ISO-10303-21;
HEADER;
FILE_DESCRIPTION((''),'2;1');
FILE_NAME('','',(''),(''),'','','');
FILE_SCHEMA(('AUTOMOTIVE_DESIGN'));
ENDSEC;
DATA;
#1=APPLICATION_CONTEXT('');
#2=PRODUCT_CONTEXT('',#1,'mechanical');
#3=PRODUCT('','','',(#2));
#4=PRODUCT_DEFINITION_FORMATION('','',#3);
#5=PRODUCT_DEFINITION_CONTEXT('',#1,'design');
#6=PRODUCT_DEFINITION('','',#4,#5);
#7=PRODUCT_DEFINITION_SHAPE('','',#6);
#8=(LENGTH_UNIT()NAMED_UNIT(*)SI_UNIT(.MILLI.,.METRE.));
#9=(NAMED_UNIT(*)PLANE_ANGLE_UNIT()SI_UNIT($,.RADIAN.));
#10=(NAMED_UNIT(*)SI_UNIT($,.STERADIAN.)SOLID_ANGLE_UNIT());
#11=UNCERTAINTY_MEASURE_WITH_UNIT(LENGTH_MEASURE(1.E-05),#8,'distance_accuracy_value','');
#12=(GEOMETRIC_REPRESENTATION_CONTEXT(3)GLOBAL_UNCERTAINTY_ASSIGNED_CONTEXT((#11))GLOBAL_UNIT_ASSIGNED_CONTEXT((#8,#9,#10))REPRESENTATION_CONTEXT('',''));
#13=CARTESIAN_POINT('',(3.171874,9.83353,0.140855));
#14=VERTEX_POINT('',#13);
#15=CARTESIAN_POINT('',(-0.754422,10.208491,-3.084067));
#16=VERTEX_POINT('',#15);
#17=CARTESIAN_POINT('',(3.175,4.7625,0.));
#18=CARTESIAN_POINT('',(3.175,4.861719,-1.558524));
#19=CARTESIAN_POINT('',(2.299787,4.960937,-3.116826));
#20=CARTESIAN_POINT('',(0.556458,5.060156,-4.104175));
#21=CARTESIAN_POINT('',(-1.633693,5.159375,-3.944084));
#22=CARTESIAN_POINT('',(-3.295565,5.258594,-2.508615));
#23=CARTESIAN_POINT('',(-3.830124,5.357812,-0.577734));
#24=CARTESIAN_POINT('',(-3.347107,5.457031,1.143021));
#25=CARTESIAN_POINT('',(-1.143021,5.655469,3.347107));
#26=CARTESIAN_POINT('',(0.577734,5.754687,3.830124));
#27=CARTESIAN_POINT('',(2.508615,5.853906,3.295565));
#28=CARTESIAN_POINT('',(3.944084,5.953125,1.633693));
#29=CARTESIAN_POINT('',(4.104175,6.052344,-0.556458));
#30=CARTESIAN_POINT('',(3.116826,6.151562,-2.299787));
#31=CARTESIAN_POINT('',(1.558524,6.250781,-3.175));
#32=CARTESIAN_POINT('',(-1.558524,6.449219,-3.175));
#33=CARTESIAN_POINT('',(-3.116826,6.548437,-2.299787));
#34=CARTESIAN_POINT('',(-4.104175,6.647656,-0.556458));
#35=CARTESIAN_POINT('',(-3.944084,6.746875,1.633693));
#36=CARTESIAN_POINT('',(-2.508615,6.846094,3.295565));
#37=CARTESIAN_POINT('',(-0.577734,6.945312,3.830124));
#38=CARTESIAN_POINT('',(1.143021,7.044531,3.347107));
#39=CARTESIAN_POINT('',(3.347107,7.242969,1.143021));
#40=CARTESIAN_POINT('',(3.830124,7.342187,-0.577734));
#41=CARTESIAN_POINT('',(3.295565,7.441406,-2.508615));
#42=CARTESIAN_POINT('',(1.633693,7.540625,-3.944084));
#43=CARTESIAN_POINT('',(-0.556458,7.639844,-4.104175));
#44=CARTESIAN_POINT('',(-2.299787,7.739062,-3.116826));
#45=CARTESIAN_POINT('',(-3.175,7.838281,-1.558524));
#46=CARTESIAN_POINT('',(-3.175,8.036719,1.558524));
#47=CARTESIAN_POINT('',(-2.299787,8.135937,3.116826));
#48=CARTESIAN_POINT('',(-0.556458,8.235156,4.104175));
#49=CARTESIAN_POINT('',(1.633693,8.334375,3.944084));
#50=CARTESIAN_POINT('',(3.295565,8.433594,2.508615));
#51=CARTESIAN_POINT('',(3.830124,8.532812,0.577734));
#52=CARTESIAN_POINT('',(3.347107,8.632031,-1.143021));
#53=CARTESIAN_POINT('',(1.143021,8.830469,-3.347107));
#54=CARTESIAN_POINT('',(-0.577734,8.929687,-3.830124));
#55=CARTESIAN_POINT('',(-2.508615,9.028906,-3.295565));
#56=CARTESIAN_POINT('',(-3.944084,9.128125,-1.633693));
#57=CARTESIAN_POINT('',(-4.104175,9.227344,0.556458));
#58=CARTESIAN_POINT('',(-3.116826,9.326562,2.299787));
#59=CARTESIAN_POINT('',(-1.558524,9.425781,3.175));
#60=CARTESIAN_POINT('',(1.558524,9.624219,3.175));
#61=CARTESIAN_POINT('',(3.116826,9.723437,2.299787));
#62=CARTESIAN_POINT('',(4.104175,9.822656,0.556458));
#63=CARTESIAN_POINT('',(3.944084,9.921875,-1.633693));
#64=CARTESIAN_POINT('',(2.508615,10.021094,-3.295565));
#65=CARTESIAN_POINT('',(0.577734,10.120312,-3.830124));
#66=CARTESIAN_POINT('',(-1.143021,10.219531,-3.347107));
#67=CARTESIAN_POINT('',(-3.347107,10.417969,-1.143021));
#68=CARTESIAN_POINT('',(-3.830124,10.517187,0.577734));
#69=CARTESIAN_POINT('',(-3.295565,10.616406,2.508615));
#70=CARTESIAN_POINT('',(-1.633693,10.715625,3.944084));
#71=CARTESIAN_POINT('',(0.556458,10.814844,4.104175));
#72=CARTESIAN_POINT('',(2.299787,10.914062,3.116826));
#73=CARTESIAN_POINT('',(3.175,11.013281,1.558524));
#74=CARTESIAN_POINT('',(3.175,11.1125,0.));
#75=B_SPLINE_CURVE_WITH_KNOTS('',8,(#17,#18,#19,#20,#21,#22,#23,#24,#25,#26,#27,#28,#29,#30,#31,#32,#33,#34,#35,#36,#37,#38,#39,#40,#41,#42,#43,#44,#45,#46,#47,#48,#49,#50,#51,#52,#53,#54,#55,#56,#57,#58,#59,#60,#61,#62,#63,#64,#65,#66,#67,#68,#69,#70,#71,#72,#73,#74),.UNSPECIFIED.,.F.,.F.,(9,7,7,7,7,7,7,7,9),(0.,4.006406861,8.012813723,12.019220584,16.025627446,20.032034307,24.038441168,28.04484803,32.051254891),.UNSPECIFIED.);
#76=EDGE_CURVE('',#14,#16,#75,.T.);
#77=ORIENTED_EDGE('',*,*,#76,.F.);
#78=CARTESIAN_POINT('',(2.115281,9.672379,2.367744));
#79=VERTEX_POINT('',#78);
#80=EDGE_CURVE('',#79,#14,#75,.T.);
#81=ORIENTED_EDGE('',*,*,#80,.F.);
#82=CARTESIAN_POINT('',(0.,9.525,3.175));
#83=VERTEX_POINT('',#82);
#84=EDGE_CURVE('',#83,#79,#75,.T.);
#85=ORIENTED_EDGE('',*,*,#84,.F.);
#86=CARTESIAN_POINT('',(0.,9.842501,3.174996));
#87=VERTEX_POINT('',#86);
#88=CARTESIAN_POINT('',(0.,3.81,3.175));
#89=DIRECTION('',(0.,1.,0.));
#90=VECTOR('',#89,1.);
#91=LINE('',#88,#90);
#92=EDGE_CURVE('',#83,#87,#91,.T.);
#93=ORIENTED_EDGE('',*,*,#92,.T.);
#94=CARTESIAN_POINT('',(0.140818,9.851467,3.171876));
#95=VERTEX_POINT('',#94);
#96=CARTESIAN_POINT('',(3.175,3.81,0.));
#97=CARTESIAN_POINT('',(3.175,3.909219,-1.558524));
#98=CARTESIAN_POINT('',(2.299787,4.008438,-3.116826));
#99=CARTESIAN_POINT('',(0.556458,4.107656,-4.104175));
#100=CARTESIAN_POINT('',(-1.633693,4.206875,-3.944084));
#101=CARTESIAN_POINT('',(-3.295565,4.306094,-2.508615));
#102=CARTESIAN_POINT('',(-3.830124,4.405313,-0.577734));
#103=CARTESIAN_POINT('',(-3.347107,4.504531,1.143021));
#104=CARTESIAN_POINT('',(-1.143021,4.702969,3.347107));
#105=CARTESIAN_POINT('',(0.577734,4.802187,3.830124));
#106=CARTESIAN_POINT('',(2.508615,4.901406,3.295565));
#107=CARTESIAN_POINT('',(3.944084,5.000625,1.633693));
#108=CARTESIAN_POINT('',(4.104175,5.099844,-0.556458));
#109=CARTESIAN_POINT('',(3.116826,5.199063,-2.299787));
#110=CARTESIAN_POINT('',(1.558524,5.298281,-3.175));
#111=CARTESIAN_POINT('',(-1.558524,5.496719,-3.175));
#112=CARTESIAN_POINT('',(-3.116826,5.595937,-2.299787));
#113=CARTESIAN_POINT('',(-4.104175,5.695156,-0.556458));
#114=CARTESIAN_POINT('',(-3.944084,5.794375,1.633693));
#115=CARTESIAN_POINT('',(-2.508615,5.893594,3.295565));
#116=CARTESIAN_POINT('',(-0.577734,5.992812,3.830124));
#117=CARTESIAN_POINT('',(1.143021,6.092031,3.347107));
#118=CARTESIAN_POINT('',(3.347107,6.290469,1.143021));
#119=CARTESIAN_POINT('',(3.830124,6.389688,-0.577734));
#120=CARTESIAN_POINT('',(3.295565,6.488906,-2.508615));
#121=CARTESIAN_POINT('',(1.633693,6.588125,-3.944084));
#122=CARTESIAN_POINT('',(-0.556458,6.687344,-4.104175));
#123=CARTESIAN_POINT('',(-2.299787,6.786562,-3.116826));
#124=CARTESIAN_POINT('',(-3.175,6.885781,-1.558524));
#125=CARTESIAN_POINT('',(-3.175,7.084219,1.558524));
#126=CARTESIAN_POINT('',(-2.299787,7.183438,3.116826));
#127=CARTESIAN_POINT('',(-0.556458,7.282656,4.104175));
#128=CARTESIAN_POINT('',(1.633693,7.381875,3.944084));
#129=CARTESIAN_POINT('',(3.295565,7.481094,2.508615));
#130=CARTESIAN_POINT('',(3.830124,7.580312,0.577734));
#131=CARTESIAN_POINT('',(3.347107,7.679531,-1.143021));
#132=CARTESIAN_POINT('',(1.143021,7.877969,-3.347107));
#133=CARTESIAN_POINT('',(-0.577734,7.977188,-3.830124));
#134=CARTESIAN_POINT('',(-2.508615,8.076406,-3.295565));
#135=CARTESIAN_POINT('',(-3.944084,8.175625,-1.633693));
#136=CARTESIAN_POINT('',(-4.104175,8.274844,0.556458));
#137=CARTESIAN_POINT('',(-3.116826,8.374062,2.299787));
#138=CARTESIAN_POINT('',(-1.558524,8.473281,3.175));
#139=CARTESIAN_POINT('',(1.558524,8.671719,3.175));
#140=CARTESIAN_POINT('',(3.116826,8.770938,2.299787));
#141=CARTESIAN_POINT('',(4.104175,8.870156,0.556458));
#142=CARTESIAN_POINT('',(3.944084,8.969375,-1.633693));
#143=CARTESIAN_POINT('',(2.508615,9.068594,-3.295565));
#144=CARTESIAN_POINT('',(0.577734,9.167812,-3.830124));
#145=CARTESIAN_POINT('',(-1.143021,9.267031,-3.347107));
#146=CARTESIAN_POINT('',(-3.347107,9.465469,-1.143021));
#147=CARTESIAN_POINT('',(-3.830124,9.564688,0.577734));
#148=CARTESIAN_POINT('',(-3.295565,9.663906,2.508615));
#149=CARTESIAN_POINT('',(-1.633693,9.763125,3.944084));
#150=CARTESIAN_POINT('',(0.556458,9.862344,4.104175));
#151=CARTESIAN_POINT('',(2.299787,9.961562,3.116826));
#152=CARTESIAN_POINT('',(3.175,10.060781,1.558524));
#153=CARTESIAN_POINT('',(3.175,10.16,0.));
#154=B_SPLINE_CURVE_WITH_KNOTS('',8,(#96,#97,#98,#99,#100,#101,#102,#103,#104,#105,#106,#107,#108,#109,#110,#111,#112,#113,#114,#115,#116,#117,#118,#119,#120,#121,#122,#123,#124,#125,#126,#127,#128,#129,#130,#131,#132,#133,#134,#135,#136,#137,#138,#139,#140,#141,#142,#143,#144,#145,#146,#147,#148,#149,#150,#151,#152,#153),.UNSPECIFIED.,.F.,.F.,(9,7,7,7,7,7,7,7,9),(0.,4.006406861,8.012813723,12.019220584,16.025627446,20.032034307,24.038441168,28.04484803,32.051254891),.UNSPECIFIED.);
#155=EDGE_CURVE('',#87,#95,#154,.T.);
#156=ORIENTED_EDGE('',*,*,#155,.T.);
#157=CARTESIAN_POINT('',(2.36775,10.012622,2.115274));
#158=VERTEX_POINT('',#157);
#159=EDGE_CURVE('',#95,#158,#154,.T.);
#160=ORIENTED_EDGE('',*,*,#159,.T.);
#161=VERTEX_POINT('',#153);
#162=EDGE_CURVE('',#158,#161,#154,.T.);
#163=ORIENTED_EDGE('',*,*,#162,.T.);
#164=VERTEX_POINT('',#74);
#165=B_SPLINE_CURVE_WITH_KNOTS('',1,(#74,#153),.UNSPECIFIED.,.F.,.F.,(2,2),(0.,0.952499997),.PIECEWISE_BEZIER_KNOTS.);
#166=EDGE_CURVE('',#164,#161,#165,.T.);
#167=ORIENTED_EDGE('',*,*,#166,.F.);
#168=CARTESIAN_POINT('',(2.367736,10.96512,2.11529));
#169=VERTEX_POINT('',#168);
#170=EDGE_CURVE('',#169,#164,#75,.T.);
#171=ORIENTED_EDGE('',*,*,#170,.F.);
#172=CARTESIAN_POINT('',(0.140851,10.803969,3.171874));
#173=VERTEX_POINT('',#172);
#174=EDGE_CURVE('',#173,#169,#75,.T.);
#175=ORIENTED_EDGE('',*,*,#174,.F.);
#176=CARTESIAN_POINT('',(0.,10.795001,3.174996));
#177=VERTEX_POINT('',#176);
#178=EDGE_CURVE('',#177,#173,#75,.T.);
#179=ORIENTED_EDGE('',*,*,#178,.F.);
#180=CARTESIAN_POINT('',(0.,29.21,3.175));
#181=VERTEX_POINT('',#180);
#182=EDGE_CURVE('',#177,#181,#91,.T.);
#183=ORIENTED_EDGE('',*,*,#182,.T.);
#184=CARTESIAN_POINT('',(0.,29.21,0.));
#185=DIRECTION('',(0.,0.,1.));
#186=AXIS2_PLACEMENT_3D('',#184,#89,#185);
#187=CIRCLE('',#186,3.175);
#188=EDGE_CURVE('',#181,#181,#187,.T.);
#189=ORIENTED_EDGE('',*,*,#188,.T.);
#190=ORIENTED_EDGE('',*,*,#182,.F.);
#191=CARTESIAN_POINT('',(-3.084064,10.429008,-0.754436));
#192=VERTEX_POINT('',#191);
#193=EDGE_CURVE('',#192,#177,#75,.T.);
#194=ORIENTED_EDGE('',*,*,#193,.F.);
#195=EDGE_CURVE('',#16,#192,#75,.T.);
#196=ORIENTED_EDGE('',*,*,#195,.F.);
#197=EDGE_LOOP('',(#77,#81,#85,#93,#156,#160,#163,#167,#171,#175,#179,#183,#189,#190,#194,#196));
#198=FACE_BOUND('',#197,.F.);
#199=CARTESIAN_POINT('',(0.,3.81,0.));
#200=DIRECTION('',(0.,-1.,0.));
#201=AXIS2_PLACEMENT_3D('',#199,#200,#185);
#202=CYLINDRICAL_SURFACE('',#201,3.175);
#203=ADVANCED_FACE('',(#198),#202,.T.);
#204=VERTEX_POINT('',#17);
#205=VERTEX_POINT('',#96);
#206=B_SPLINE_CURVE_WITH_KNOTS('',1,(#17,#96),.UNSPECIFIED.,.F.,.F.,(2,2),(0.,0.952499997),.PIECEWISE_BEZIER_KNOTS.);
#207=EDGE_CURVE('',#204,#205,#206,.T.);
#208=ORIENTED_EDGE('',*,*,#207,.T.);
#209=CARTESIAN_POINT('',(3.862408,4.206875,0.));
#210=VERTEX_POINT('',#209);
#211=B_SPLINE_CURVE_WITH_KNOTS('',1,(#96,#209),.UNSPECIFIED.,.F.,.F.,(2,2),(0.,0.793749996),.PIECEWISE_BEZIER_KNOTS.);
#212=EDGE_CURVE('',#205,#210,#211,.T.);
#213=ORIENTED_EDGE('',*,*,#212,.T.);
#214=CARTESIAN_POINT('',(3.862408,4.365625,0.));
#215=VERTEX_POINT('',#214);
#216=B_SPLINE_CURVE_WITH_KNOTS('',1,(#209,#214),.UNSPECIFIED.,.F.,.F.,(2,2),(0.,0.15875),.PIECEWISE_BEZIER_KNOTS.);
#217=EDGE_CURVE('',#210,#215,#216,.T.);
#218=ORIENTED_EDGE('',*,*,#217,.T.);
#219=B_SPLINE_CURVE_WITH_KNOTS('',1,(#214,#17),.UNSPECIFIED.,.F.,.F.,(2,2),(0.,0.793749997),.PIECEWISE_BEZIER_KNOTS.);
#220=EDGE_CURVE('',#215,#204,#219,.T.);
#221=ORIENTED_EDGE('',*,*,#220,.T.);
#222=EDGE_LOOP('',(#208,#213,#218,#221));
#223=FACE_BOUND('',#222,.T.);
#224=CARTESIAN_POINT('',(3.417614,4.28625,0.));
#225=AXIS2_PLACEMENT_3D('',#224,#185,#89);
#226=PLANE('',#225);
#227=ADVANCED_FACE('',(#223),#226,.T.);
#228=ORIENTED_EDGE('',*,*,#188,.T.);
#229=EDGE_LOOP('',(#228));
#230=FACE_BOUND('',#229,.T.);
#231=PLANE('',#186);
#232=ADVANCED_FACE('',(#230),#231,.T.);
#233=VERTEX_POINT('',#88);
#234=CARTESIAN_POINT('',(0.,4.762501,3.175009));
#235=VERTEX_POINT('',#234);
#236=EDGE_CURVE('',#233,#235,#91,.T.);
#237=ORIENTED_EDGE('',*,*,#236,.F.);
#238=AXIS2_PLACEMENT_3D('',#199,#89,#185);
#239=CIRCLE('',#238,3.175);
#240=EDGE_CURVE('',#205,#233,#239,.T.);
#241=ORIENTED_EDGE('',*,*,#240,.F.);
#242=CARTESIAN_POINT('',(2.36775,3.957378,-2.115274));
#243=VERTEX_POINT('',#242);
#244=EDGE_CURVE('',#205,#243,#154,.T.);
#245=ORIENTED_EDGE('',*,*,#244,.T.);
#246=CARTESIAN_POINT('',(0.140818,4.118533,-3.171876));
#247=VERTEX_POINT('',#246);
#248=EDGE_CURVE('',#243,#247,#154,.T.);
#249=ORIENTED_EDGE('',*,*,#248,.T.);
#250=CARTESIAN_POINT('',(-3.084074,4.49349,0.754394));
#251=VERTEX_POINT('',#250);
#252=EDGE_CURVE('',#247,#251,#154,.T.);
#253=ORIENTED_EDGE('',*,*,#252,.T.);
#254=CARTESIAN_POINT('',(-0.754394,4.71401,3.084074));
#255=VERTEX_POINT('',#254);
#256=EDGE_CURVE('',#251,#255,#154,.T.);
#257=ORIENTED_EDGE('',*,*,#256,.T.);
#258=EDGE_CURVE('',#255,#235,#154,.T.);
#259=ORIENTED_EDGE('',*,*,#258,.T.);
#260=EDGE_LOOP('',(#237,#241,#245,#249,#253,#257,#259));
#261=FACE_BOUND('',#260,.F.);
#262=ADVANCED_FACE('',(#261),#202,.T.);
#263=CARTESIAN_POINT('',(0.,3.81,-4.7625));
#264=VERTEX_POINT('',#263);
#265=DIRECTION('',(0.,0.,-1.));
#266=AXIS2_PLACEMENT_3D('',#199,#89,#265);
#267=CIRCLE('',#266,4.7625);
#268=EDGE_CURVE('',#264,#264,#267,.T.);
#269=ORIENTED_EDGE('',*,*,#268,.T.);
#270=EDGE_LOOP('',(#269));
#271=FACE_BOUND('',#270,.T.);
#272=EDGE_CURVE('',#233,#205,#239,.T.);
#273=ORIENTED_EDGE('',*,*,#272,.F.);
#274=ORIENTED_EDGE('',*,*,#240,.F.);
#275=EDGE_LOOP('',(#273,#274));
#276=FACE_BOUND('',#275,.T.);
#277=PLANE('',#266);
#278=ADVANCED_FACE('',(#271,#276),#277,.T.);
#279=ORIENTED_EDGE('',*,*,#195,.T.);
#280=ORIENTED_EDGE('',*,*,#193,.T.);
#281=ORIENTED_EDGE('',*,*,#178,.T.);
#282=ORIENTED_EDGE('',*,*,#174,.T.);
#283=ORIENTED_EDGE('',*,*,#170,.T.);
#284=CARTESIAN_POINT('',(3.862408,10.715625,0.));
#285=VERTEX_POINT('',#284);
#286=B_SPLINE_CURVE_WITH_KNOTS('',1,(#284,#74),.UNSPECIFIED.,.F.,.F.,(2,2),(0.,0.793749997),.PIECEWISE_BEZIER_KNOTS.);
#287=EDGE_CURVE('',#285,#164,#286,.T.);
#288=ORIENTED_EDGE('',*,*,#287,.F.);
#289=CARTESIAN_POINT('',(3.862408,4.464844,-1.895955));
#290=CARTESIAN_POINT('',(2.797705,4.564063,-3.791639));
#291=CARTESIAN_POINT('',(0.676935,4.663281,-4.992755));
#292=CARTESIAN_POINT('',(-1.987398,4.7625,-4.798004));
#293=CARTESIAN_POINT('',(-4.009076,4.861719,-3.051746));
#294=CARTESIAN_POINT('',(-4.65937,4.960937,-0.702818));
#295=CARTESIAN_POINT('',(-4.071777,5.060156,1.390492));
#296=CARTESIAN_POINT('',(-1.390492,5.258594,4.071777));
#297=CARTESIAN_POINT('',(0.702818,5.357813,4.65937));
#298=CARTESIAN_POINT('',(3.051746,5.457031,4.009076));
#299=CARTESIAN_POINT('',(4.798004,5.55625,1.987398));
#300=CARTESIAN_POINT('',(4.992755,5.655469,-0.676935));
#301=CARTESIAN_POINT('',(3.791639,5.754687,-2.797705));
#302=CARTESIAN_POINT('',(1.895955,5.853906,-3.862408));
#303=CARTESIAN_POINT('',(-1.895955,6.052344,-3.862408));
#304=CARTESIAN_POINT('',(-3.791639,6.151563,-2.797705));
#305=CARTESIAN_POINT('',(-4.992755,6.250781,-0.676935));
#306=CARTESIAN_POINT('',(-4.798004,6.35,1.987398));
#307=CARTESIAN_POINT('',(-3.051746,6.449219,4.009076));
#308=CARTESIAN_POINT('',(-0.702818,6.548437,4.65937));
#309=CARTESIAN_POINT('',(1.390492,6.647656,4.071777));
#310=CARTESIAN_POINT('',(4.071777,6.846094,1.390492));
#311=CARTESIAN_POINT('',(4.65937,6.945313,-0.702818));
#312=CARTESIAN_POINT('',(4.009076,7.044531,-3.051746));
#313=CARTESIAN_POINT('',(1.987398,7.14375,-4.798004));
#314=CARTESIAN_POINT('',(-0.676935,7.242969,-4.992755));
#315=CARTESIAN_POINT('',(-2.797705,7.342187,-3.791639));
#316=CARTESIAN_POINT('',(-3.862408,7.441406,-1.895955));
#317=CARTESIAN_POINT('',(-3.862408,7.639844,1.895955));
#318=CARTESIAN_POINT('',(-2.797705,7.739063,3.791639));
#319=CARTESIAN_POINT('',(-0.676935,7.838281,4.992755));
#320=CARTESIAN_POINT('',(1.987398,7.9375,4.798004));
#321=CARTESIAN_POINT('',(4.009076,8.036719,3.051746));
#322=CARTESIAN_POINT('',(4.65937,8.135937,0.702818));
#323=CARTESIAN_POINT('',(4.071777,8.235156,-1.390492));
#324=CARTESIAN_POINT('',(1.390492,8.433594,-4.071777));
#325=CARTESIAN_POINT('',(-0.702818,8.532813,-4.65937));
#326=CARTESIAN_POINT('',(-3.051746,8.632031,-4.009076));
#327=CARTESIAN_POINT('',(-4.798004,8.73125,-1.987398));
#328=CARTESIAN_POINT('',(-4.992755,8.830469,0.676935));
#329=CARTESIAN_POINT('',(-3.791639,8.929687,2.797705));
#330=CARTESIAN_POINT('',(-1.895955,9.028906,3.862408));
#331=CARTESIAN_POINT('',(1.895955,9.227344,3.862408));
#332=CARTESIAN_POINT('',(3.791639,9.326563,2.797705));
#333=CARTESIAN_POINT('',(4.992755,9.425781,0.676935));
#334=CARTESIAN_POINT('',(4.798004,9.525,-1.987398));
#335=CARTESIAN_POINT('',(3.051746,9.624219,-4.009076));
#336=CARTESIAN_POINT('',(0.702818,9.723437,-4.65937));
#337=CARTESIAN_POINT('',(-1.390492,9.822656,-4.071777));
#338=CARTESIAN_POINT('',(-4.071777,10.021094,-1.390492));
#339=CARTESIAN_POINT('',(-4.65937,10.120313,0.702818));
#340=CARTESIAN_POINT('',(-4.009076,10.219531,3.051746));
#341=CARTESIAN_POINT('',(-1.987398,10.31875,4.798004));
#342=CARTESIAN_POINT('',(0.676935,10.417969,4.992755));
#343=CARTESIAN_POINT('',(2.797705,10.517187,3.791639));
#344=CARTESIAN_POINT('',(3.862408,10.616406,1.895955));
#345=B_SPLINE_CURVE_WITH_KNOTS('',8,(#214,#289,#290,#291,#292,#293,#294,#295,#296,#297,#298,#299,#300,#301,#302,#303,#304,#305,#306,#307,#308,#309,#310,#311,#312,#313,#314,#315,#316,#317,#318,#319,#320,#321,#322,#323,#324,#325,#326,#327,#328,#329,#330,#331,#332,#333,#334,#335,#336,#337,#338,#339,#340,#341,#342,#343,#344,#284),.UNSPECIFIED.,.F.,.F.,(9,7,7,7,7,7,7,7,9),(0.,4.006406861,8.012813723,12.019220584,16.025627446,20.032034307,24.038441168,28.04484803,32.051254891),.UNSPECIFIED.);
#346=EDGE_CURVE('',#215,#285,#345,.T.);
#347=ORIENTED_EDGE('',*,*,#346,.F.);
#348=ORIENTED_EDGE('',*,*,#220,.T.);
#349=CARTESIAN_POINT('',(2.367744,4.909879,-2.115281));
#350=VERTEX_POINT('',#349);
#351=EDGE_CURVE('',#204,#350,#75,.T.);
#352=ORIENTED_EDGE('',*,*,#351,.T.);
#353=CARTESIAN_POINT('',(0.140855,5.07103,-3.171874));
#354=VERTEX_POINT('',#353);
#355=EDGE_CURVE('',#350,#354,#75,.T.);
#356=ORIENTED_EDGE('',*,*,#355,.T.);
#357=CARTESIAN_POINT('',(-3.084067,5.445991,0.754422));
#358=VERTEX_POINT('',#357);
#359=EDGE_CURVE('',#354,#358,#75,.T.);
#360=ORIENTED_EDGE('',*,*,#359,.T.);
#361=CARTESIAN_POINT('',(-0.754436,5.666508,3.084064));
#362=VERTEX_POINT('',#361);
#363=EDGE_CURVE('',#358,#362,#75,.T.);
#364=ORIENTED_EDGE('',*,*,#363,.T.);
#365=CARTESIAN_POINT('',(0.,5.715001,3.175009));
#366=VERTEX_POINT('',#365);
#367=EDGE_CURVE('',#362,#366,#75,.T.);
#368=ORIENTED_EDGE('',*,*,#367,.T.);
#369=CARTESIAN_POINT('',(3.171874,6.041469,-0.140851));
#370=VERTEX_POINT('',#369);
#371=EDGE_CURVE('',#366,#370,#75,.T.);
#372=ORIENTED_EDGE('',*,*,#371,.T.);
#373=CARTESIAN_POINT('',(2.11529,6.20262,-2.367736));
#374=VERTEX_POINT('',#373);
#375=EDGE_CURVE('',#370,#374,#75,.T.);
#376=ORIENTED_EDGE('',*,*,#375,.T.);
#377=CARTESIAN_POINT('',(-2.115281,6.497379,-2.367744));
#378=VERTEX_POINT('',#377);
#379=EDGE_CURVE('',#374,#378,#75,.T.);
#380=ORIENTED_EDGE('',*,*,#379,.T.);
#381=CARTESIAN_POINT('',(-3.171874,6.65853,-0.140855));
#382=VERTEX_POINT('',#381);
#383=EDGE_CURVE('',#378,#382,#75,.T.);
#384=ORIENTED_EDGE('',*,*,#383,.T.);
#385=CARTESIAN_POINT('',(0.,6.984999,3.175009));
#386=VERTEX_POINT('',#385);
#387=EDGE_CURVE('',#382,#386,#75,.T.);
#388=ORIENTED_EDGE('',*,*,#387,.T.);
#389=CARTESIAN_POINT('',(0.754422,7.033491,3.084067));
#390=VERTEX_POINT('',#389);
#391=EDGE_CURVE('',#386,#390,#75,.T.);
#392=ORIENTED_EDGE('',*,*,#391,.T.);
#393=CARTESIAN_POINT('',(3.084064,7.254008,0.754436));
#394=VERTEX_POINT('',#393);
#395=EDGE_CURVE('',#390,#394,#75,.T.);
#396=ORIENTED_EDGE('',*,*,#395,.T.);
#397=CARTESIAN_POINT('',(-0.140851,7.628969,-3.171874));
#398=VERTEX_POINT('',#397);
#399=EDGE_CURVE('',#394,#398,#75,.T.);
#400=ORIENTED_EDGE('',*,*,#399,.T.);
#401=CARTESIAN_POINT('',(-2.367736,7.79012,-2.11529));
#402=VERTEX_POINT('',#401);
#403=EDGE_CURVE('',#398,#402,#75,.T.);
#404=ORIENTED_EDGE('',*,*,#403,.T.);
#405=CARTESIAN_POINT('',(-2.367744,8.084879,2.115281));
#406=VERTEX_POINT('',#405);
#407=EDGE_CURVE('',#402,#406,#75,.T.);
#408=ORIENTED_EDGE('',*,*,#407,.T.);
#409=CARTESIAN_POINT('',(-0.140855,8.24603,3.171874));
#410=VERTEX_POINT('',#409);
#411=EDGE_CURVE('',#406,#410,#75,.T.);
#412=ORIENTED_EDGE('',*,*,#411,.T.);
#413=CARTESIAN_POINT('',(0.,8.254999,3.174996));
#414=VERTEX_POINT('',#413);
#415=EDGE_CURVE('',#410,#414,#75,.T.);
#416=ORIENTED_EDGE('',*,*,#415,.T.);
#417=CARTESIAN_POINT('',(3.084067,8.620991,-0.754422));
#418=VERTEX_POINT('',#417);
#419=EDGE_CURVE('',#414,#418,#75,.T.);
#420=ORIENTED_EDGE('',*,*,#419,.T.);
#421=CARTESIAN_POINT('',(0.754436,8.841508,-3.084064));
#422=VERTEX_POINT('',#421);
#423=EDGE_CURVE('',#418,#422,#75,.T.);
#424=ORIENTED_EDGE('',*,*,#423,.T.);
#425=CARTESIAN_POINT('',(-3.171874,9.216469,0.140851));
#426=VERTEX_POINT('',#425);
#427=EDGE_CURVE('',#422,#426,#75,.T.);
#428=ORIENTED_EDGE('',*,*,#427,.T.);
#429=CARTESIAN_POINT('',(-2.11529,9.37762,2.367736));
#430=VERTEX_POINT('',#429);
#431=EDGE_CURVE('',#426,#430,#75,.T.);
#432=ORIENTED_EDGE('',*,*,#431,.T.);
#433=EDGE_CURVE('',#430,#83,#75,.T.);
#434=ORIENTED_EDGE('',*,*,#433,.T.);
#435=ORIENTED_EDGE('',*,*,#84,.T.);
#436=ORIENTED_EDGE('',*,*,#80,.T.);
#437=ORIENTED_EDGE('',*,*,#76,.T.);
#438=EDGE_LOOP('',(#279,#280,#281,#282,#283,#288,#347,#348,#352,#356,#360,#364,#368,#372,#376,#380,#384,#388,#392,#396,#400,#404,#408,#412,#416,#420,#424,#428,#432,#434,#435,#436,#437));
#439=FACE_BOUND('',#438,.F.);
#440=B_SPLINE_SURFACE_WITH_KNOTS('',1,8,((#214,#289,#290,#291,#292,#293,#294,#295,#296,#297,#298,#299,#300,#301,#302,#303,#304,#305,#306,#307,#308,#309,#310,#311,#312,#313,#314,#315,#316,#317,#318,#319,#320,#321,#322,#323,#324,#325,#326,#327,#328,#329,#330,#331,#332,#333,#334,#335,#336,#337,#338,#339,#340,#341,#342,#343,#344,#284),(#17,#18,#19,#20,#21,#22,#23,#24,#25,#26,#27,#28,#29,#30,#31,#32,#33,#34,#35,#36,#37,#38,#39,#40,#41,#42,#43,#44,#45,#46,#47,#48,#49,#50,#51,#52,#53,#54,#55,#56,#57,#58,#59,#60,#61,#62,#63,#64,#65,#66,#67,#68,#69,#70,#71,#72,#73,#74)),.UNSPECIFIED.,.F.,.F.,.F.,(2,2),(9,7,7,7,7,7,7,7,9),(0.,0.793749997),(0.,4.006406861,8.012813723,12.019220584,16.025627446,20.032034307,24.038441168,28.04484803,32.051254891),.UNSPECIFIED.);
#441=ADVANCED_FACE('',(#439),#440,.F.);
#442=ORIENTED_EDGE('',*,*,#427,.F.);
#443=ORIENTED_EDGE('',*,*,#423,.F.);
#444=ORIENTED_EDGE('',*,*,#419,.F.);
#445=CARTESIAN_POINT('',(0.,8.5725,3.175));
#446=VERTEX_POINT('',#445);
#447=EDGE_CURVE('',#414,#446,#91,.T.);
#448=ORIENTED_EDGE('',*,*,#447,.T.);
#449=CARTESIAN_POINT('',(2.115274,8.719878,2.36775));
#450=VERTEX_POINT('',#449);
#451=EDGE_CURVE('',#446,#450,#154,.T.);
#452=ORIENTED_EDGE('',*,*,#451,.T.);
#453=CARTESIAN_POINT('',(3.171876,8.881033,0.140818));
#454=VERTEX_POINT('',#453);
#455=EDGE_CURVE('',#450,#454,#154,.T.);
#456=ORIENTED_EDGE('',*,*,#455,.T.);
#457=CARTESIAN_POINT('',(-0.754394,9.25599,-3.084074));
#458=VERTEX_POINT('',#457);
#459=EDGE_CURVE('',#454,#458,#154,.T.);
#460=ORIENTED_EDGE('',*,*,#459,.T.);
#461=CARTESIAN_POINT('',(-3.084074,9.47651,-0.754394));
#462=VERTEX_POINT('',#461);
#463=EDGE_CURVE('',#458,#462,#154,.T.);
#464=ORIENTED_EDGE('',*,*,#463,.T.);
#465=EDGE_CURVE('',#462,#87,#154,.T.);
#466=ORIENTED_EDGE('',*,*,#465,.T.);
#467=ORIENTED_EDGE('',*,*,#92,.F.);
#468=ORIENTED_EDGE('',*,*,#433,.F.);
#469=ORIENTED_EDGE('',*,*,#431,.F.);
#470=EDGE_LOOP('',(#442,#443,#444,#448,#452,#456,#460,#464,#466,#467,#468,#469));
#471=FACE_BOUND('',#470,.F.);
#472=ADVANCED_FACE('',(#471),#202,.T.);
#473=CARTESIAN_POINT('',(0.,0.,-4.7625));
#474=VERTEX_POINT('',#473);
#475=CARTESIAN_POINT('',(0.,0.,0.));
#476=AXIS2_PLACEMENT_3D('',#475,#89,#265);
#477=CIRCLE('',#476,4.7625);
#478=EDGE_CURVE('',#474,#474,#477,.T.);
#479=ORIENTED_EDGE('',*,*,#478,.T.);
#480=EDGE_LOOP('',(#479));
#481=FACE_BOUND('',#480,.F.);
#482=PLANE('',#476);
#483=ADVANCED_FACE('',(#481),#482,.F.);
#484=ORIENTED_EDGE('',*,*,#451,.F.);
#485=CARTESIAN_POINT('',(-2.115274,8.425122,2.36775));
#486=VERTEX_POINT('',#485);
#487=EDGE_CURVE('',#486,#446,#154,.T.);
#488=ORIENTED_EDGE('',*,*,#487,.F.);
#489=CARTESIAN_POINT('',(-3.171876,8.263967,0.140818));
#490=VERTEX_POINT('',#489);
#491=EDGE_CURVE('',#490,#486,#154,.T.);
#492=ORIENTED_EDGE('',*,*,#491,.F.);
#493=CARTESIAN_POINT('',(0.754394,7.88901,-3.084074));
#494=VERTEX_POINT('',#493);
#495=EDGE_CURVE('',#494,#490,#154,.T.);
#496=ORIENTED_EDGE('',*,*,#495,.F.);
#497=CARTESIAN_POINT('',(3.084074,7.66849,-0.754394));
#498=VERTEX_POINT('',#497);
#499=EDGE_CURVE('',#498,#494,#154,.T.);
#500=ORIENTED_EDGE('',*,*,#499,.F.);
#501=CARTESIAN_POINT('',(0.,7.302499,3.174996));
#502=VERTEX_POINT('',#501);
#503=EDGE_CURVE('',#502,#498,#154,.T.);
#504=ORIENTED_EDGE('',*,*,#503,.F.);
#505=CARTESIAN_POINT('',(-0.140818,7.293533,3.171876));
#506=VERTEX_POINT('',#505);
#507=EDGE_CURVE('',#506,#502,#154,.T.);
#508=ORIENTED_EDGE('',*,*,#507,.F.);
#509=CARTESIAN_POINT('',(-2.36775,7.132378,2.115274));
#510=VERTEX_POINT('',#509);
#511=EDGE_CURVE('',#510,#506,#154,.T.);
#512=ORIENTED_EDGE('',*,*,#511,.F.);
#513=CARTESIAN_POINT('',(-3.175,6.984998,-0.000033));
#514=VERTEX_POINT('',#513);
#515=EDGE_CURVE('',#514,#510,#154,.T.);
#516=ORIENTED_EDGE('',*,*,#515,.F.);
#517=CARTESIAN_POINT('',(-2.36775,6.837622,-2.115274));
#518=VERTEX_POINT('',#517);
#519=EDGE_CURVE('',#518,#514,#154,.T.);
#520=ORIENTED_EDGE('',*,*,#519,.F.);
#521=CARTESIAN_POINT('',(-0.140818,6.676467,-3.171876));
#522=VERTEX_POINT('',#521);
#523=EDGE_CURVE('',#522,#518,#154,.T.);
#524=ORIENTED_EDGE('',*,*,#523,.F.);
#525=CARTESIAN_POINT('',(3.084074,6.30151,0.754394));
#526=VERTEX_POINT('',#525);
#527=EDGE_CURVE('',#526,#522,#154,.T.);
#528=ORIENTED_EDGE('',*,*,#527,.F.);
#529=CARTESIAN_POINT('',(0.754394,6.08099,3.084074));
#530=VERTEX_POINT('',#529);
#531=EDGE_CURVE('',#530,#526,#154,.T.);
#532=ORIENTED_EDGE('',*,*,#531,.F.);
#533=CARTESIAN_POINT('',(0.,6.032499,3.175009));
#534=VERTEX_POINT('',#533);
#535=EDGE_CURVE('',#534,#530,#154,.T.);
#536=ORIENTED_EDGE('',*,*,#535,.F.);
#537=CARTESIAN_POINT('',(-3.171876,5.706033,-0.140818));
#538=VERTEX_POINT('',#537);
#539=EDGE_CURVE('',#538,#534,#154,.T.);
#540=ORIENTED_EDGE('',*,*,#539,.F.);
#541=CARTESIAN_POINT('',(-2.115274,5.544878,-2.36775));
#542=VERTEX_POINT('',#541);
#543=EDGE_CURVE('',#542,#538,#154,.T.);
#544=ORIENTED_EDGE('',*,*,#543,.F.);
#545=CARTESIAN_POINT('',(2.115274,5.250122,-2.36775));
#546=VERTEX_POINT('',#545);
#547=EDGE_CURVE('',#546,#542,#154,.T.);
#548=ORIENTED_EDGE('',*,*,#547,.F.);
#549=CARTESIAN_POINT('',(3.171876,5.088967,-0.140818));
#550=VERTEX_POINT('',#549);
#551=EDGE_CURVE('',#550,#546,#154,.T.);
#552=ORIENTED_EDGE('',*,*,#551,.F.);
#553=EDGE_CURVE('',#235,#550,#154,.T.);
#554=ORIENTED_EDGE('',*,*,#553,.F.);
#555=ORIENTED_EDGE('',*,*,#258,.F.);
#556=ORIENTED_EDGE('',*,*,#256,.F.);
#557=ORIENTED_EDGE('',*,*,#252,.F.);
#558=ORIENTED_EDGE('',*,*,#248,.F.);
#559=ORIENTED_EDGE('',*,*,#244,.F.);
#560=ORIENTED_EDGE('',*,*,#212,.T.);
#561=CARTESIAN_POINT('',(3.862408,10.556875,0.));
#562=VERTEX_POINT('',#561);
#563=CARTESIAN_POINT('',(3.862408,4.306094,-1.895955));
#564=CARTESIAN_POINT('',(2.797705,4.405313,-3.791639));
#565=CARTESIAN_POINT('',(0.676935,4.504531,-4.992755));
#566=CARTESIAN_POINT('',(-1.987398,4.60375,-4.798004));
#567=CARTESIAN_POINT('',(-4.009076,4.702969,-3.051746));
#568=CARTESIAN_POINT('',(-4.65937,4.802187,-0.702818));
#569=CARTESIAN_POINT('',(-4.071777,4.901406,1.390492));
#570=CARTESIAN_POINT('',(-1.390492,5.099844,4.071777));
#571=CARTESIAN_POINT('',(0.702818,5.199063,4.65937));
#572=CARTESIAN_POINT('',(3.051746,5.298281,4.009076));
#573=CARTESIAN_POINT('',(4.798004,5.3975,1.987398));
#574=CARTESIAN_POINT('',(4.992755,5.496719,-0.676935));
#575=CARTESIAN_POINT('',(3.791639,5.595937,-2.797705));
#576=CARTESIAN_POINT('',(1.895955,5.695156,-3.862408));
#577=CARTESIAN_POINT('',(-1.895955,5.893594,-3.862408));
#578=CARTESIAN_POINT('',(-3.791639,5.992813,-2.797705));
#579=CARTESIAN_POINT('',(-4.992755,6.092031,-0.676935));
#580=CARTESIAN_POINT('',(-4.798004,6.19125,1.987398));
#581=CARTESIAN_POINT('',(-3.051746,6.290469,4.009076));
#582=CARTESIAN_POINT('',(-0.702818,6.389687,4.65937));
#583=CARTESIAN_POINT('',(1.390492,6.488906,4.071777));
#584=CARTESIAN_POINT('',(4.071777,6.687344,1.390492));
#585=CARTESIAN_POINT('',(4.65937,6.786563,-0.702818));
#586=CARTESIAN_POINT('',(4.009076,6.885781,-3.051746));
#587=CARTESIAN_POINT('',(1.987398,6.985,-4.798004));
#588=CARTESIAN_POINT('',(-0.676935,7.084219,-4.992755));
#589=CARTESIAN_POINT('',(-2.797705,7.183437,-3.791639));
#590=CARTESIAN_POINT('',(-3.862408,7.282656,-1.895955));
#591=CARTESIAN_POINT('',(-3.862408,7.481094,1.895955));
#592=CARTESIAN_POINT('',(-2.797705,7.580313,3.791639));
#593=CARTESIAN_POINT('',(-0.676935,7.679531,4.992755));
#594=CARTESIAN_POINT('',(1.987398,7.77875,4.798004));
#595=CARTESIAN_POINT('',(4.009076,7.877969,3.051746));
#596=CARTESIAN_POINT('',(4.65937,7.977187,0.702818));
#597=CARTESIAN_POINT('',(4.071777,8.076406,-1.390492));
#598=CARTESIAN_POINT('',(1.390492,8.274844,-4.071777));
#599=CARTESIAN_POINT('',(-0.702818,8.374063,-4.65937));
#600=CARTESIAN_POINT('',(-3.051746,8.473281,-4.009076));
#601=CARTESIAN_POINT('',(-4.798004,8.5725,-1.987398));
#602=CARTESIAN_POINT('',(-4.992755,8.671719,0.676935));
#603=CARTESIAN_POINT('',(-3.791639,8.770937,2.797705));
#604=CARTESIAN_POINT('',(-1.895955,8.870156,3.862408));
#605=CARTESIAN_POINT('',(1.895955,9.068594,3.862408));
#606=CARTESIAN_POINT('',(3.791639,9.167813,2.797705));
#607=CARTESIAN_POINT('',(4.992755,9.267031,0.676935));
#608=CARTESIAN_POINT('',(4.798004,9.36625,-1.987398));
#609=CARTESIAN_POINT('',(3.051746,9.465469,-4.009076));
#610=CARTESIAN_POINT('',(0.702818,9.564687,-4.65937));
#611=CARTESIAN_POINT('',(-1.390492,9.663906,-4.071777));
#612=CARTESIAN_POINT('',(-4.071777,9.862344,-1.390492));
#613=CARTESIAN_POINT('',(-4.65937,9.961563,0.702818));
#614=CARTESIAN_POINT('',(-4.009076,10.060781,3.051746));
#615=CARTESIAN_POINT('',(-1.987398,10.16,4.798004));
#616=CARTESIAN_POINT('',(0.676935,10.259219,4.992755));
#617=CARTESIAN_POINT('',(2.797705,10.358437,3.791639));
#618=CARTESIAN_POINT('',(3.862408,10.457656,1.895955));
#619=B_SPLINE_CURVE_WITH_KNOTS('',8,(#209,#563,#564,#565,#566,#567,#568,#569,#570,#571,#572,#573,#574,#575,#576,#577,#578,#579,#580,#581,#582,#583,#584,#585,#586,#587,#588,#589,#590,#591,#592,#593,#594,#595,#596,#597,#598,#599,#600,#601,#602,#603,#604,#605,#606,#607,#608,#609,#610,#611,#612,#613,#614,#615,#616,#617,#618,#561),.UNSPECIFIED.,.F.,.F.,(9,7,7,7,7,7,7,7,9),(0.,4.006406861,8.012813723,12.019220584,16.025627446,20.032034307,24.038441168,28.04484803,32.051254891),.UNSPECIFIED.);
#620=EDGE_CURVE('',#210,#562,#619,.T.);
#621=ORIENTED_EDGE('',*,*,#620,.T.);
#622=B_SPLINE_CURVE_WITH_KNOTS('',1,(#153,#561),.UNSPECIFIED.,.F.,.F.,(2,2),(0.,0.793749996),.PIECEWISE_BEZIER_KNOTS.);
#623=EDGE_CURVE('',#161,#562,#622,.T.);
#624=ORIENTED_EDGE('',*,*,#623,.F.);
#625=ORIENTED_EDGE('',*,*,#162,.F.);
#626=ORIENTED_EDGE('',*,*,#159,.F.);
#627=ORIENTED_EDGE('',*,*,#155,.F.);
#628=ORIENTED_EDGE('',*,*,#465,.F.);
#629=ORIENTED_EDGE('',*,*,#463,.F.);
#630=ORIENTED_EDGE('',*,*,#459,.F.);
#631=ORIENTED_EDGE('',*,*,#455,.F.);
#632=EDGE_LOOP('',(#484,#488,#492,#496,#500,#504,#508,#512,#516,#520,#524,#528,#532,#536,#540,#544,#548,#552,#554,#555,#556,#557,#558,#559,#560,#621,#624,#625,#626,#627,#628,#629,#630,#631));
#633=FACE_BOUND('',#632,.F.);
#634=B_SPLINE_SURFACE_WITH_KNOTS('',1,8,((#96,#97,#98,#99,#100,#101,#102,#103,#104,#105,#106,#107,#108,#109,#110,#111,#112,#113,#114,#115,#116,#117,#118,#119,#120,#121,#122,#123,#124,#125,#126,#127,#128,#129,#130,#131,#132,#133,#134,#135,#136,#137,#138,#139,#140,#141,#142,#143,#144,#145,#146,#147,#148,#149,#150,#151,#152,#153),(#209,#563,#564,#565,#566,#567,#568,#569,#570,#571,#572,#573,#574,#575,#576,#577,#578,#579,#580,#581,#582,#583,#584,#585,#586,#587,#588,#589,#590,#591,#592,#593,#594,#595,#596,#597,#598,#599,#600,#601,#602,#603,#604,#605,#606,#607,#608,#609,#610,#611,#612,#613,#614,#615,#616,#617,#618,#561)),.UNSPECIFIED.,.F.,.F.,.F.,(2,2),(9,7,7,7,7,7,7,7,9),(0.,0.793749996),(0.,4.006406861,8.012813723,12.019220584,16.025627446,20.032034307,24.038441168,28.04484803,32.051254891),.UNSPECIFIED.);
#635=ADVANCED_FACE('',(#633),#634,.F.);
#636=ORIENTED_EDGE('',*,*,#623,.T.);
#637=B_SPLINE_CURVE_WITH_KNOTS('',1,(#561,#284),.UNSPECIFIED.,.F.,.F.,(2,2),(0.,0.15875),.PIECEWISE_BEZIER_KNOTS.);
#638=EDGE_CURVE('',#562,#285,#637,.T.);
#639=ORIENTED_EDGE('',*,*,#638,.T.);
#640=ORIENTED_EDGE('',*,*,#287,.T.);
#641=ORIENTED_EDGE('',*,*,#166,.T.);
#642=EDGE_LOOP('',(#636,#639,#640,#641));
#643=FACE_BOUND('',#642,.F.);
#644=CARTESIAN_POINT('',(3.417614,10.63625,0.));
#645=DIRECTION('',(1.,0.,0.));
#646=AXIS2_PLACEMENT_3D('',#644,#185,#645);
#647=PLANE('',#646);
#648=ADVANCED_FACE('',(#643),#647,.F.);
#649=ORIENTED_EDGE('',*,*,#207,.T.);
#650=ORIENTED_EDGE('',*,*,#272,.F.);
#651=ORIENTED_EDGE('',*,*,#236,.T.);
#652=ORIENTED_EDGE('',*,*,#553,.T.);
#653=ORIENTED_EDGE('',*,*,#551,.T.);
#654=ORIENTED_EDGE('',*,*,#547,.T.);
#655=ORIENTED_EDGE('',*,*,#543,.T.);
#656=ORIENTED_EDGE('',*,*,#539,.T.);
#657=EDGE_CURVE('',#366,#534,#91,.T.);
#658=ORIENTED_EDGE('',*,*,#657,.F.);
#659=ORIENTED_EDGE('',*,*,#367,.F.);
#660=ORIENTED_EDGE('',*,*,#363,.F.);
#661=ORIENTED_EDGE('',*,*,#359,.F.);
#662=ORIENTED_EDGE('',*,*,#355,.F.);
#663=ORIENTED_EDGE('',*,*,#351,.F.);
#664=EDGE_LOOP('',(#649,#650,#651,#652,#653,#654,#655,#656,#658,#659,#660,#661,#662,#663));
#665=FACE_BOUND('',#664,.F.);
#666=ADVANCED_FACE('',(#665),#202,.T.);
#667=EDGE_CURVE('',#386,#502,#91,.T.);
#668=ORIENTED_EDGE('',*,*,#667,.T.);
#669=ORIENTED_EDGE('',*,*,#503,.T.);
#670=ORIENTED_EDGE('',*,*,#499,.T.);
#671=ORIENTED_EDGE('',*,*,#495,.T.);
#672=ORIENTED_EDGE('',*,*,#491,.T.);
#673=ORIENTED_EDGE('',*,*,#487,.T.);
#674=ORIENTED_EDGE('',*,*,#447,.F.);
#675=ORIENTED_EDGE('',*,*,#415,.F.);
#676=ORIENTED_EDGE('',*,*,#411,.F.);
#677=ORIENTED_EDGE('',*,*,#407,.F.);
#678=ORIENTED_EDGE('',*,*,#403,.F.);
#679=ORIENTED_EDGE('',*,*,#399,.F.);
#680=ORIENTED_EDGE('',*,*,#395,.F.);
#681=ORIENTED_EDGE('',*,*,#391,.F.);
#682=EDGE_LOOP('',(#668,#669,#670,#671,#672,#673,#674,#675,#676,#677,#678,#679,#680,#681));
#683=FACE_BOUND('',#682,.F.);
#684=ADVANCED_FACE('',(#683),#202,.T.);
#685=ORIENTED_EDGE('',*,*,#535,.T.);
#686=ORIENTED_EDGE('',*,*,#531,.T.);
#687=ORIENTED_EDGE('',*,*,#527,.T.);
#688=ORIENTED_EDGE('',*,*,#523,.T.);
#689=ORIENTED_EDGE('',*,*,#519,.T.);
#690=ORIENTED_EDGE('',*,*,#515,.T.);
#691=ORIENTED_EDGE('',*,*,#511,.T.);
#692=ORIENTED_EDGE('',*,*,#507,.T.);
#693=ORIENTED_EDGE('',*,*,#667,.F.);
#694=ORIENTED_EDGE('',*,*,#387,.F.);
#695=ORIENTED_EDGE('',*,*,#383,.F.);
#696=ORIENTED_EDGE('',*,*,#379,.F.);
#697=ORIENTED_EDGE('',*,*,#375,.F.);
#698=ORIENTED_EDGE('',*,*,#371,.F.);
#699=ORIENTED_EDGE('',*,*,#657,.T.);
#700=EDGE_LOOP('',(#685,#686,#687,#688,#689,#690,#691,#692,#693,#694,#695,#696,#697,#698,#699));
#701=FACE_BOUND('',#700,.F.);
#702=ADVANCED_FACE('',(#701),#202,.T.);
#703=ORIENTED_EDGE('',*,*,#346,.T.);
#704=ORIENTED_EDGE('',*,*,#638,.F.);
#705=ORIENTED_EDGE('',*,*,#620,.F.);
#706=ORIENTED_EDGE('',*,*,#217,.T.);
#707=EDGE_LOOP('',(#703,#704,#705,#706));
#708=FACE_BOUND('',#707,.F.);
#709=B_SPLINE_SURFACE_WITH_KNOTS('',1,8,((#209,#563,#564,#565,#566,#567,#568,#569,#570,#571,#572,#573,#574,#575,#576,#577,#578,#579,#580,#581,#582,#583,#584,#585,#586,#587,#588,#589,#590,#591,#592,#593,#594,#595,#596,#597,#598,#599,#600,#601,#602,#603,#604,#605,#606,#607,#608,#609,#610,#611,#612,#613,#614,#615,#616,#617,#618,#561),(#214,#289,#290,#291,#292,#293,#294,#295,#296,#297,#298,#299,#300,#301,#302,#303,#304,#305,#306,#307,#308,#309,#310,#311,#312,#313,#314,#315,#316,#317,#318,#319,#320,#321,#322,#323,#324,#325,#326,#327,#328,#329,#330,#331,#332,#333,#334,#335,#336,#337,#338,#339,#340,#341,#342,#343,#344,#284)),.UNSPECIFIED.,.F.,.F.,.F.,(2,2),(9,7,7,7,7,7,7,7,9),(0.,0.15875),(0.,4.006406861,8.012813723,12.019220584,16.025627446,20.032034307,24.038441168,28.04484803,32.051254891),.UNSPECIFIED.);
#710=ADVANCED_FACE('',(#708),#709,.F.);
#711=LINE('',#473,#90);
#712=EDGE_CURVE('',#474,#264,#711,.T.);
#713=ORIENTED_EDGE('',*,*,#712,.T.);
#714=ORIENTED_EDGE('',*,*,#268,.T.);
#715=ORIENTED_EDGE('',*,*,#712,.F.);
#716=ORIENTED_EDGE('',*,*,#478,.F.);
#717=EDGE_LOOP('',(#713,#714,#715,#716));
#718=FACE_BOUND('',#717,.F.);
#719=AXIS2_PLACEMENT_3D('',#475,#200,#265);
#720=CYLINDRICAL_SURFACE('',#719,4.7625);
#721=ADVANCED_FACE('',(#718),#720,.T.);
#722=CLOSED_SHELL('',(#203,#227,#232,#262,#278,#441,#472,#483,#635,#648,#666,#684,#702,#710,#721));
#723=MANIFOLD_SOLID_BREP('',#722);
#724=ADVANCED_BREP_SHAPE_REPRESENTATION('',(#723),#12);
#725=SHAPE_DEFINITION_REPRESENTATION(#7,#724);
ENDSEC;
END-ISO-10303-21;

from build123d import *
from build123d.topology import SkipClean

# Parameters (mm, degrees)
SKETCH2_R           = 4.7625
BOSS_EXTRUDE1_DEPTH = 3.81
SKETCH3_R           = 3.175
BOSS_EXTRUDE2_DEPTH = 25.4
THREAD2_PITCH       = 1.27
THREAD2_HEIGHT      = 6.35
THREAD2_RADIUS      = 3.175
THREAD2_START_ANGLE = 90


with BuildPart() as part:
    # Sketch2 → Boss-Extrude1 (new body)
    with BuildSketch(Plane(origin=(0, 0, 0), x_dir=(1, 0, 0), z_dir=(0, 1, 0))):
        with Locations(Location((0, 0, 0), (0, 0, 90))):
            Circle(SKETCH2_R)
    extrude(amount=BOSS_EXTRUDE1_DEPTH)

    # Sketch3 → Boss-Extrude2 (add)
    with BuildSketch(Plane(origin=(0, 3.81, 0), x_dir=(1, 0, 0), z_dir=(0, 1, 0))):
        with Locations(Location((0, 0, 0), (0, 0, 270))):
            Circle(SKETCH3_R)
    extrude(amount=BOSS_EXTRUDE2_DEPTH)

    # Thread2: sweep along a helix
    with SkipClean():  # the faces are left unmerged after this step: merging them gives an invalid solid
        with BuildLine() as thread2_path:
            add(Helix(THREAD2_PITCH, THREAD2_HEIGHT, THREAD2_RADIUS, center=(0, 3.81, 0), direction=(0, 1, 0), mode=Mode.PRIVATE).rotate(Axis((0, 3.81, 0), (0, 1, 0)), THREAD2_START_ANGLE))
        # Thread Profile2 → Thread2 (sweep)
        with BuildSketch(Plane(origin=(3.175, 3.81, 0), x_dir=(1, 0, 0), z_dir=(0, 0, 1))):
            Polygon((0, 0), (0.687407661, 0.396874998), (0.687407661, 0.555624998), (0, 0.952499997), align=None)
        sweep(path=thread2_path.line, is_frenet=True)


solid = part.part
